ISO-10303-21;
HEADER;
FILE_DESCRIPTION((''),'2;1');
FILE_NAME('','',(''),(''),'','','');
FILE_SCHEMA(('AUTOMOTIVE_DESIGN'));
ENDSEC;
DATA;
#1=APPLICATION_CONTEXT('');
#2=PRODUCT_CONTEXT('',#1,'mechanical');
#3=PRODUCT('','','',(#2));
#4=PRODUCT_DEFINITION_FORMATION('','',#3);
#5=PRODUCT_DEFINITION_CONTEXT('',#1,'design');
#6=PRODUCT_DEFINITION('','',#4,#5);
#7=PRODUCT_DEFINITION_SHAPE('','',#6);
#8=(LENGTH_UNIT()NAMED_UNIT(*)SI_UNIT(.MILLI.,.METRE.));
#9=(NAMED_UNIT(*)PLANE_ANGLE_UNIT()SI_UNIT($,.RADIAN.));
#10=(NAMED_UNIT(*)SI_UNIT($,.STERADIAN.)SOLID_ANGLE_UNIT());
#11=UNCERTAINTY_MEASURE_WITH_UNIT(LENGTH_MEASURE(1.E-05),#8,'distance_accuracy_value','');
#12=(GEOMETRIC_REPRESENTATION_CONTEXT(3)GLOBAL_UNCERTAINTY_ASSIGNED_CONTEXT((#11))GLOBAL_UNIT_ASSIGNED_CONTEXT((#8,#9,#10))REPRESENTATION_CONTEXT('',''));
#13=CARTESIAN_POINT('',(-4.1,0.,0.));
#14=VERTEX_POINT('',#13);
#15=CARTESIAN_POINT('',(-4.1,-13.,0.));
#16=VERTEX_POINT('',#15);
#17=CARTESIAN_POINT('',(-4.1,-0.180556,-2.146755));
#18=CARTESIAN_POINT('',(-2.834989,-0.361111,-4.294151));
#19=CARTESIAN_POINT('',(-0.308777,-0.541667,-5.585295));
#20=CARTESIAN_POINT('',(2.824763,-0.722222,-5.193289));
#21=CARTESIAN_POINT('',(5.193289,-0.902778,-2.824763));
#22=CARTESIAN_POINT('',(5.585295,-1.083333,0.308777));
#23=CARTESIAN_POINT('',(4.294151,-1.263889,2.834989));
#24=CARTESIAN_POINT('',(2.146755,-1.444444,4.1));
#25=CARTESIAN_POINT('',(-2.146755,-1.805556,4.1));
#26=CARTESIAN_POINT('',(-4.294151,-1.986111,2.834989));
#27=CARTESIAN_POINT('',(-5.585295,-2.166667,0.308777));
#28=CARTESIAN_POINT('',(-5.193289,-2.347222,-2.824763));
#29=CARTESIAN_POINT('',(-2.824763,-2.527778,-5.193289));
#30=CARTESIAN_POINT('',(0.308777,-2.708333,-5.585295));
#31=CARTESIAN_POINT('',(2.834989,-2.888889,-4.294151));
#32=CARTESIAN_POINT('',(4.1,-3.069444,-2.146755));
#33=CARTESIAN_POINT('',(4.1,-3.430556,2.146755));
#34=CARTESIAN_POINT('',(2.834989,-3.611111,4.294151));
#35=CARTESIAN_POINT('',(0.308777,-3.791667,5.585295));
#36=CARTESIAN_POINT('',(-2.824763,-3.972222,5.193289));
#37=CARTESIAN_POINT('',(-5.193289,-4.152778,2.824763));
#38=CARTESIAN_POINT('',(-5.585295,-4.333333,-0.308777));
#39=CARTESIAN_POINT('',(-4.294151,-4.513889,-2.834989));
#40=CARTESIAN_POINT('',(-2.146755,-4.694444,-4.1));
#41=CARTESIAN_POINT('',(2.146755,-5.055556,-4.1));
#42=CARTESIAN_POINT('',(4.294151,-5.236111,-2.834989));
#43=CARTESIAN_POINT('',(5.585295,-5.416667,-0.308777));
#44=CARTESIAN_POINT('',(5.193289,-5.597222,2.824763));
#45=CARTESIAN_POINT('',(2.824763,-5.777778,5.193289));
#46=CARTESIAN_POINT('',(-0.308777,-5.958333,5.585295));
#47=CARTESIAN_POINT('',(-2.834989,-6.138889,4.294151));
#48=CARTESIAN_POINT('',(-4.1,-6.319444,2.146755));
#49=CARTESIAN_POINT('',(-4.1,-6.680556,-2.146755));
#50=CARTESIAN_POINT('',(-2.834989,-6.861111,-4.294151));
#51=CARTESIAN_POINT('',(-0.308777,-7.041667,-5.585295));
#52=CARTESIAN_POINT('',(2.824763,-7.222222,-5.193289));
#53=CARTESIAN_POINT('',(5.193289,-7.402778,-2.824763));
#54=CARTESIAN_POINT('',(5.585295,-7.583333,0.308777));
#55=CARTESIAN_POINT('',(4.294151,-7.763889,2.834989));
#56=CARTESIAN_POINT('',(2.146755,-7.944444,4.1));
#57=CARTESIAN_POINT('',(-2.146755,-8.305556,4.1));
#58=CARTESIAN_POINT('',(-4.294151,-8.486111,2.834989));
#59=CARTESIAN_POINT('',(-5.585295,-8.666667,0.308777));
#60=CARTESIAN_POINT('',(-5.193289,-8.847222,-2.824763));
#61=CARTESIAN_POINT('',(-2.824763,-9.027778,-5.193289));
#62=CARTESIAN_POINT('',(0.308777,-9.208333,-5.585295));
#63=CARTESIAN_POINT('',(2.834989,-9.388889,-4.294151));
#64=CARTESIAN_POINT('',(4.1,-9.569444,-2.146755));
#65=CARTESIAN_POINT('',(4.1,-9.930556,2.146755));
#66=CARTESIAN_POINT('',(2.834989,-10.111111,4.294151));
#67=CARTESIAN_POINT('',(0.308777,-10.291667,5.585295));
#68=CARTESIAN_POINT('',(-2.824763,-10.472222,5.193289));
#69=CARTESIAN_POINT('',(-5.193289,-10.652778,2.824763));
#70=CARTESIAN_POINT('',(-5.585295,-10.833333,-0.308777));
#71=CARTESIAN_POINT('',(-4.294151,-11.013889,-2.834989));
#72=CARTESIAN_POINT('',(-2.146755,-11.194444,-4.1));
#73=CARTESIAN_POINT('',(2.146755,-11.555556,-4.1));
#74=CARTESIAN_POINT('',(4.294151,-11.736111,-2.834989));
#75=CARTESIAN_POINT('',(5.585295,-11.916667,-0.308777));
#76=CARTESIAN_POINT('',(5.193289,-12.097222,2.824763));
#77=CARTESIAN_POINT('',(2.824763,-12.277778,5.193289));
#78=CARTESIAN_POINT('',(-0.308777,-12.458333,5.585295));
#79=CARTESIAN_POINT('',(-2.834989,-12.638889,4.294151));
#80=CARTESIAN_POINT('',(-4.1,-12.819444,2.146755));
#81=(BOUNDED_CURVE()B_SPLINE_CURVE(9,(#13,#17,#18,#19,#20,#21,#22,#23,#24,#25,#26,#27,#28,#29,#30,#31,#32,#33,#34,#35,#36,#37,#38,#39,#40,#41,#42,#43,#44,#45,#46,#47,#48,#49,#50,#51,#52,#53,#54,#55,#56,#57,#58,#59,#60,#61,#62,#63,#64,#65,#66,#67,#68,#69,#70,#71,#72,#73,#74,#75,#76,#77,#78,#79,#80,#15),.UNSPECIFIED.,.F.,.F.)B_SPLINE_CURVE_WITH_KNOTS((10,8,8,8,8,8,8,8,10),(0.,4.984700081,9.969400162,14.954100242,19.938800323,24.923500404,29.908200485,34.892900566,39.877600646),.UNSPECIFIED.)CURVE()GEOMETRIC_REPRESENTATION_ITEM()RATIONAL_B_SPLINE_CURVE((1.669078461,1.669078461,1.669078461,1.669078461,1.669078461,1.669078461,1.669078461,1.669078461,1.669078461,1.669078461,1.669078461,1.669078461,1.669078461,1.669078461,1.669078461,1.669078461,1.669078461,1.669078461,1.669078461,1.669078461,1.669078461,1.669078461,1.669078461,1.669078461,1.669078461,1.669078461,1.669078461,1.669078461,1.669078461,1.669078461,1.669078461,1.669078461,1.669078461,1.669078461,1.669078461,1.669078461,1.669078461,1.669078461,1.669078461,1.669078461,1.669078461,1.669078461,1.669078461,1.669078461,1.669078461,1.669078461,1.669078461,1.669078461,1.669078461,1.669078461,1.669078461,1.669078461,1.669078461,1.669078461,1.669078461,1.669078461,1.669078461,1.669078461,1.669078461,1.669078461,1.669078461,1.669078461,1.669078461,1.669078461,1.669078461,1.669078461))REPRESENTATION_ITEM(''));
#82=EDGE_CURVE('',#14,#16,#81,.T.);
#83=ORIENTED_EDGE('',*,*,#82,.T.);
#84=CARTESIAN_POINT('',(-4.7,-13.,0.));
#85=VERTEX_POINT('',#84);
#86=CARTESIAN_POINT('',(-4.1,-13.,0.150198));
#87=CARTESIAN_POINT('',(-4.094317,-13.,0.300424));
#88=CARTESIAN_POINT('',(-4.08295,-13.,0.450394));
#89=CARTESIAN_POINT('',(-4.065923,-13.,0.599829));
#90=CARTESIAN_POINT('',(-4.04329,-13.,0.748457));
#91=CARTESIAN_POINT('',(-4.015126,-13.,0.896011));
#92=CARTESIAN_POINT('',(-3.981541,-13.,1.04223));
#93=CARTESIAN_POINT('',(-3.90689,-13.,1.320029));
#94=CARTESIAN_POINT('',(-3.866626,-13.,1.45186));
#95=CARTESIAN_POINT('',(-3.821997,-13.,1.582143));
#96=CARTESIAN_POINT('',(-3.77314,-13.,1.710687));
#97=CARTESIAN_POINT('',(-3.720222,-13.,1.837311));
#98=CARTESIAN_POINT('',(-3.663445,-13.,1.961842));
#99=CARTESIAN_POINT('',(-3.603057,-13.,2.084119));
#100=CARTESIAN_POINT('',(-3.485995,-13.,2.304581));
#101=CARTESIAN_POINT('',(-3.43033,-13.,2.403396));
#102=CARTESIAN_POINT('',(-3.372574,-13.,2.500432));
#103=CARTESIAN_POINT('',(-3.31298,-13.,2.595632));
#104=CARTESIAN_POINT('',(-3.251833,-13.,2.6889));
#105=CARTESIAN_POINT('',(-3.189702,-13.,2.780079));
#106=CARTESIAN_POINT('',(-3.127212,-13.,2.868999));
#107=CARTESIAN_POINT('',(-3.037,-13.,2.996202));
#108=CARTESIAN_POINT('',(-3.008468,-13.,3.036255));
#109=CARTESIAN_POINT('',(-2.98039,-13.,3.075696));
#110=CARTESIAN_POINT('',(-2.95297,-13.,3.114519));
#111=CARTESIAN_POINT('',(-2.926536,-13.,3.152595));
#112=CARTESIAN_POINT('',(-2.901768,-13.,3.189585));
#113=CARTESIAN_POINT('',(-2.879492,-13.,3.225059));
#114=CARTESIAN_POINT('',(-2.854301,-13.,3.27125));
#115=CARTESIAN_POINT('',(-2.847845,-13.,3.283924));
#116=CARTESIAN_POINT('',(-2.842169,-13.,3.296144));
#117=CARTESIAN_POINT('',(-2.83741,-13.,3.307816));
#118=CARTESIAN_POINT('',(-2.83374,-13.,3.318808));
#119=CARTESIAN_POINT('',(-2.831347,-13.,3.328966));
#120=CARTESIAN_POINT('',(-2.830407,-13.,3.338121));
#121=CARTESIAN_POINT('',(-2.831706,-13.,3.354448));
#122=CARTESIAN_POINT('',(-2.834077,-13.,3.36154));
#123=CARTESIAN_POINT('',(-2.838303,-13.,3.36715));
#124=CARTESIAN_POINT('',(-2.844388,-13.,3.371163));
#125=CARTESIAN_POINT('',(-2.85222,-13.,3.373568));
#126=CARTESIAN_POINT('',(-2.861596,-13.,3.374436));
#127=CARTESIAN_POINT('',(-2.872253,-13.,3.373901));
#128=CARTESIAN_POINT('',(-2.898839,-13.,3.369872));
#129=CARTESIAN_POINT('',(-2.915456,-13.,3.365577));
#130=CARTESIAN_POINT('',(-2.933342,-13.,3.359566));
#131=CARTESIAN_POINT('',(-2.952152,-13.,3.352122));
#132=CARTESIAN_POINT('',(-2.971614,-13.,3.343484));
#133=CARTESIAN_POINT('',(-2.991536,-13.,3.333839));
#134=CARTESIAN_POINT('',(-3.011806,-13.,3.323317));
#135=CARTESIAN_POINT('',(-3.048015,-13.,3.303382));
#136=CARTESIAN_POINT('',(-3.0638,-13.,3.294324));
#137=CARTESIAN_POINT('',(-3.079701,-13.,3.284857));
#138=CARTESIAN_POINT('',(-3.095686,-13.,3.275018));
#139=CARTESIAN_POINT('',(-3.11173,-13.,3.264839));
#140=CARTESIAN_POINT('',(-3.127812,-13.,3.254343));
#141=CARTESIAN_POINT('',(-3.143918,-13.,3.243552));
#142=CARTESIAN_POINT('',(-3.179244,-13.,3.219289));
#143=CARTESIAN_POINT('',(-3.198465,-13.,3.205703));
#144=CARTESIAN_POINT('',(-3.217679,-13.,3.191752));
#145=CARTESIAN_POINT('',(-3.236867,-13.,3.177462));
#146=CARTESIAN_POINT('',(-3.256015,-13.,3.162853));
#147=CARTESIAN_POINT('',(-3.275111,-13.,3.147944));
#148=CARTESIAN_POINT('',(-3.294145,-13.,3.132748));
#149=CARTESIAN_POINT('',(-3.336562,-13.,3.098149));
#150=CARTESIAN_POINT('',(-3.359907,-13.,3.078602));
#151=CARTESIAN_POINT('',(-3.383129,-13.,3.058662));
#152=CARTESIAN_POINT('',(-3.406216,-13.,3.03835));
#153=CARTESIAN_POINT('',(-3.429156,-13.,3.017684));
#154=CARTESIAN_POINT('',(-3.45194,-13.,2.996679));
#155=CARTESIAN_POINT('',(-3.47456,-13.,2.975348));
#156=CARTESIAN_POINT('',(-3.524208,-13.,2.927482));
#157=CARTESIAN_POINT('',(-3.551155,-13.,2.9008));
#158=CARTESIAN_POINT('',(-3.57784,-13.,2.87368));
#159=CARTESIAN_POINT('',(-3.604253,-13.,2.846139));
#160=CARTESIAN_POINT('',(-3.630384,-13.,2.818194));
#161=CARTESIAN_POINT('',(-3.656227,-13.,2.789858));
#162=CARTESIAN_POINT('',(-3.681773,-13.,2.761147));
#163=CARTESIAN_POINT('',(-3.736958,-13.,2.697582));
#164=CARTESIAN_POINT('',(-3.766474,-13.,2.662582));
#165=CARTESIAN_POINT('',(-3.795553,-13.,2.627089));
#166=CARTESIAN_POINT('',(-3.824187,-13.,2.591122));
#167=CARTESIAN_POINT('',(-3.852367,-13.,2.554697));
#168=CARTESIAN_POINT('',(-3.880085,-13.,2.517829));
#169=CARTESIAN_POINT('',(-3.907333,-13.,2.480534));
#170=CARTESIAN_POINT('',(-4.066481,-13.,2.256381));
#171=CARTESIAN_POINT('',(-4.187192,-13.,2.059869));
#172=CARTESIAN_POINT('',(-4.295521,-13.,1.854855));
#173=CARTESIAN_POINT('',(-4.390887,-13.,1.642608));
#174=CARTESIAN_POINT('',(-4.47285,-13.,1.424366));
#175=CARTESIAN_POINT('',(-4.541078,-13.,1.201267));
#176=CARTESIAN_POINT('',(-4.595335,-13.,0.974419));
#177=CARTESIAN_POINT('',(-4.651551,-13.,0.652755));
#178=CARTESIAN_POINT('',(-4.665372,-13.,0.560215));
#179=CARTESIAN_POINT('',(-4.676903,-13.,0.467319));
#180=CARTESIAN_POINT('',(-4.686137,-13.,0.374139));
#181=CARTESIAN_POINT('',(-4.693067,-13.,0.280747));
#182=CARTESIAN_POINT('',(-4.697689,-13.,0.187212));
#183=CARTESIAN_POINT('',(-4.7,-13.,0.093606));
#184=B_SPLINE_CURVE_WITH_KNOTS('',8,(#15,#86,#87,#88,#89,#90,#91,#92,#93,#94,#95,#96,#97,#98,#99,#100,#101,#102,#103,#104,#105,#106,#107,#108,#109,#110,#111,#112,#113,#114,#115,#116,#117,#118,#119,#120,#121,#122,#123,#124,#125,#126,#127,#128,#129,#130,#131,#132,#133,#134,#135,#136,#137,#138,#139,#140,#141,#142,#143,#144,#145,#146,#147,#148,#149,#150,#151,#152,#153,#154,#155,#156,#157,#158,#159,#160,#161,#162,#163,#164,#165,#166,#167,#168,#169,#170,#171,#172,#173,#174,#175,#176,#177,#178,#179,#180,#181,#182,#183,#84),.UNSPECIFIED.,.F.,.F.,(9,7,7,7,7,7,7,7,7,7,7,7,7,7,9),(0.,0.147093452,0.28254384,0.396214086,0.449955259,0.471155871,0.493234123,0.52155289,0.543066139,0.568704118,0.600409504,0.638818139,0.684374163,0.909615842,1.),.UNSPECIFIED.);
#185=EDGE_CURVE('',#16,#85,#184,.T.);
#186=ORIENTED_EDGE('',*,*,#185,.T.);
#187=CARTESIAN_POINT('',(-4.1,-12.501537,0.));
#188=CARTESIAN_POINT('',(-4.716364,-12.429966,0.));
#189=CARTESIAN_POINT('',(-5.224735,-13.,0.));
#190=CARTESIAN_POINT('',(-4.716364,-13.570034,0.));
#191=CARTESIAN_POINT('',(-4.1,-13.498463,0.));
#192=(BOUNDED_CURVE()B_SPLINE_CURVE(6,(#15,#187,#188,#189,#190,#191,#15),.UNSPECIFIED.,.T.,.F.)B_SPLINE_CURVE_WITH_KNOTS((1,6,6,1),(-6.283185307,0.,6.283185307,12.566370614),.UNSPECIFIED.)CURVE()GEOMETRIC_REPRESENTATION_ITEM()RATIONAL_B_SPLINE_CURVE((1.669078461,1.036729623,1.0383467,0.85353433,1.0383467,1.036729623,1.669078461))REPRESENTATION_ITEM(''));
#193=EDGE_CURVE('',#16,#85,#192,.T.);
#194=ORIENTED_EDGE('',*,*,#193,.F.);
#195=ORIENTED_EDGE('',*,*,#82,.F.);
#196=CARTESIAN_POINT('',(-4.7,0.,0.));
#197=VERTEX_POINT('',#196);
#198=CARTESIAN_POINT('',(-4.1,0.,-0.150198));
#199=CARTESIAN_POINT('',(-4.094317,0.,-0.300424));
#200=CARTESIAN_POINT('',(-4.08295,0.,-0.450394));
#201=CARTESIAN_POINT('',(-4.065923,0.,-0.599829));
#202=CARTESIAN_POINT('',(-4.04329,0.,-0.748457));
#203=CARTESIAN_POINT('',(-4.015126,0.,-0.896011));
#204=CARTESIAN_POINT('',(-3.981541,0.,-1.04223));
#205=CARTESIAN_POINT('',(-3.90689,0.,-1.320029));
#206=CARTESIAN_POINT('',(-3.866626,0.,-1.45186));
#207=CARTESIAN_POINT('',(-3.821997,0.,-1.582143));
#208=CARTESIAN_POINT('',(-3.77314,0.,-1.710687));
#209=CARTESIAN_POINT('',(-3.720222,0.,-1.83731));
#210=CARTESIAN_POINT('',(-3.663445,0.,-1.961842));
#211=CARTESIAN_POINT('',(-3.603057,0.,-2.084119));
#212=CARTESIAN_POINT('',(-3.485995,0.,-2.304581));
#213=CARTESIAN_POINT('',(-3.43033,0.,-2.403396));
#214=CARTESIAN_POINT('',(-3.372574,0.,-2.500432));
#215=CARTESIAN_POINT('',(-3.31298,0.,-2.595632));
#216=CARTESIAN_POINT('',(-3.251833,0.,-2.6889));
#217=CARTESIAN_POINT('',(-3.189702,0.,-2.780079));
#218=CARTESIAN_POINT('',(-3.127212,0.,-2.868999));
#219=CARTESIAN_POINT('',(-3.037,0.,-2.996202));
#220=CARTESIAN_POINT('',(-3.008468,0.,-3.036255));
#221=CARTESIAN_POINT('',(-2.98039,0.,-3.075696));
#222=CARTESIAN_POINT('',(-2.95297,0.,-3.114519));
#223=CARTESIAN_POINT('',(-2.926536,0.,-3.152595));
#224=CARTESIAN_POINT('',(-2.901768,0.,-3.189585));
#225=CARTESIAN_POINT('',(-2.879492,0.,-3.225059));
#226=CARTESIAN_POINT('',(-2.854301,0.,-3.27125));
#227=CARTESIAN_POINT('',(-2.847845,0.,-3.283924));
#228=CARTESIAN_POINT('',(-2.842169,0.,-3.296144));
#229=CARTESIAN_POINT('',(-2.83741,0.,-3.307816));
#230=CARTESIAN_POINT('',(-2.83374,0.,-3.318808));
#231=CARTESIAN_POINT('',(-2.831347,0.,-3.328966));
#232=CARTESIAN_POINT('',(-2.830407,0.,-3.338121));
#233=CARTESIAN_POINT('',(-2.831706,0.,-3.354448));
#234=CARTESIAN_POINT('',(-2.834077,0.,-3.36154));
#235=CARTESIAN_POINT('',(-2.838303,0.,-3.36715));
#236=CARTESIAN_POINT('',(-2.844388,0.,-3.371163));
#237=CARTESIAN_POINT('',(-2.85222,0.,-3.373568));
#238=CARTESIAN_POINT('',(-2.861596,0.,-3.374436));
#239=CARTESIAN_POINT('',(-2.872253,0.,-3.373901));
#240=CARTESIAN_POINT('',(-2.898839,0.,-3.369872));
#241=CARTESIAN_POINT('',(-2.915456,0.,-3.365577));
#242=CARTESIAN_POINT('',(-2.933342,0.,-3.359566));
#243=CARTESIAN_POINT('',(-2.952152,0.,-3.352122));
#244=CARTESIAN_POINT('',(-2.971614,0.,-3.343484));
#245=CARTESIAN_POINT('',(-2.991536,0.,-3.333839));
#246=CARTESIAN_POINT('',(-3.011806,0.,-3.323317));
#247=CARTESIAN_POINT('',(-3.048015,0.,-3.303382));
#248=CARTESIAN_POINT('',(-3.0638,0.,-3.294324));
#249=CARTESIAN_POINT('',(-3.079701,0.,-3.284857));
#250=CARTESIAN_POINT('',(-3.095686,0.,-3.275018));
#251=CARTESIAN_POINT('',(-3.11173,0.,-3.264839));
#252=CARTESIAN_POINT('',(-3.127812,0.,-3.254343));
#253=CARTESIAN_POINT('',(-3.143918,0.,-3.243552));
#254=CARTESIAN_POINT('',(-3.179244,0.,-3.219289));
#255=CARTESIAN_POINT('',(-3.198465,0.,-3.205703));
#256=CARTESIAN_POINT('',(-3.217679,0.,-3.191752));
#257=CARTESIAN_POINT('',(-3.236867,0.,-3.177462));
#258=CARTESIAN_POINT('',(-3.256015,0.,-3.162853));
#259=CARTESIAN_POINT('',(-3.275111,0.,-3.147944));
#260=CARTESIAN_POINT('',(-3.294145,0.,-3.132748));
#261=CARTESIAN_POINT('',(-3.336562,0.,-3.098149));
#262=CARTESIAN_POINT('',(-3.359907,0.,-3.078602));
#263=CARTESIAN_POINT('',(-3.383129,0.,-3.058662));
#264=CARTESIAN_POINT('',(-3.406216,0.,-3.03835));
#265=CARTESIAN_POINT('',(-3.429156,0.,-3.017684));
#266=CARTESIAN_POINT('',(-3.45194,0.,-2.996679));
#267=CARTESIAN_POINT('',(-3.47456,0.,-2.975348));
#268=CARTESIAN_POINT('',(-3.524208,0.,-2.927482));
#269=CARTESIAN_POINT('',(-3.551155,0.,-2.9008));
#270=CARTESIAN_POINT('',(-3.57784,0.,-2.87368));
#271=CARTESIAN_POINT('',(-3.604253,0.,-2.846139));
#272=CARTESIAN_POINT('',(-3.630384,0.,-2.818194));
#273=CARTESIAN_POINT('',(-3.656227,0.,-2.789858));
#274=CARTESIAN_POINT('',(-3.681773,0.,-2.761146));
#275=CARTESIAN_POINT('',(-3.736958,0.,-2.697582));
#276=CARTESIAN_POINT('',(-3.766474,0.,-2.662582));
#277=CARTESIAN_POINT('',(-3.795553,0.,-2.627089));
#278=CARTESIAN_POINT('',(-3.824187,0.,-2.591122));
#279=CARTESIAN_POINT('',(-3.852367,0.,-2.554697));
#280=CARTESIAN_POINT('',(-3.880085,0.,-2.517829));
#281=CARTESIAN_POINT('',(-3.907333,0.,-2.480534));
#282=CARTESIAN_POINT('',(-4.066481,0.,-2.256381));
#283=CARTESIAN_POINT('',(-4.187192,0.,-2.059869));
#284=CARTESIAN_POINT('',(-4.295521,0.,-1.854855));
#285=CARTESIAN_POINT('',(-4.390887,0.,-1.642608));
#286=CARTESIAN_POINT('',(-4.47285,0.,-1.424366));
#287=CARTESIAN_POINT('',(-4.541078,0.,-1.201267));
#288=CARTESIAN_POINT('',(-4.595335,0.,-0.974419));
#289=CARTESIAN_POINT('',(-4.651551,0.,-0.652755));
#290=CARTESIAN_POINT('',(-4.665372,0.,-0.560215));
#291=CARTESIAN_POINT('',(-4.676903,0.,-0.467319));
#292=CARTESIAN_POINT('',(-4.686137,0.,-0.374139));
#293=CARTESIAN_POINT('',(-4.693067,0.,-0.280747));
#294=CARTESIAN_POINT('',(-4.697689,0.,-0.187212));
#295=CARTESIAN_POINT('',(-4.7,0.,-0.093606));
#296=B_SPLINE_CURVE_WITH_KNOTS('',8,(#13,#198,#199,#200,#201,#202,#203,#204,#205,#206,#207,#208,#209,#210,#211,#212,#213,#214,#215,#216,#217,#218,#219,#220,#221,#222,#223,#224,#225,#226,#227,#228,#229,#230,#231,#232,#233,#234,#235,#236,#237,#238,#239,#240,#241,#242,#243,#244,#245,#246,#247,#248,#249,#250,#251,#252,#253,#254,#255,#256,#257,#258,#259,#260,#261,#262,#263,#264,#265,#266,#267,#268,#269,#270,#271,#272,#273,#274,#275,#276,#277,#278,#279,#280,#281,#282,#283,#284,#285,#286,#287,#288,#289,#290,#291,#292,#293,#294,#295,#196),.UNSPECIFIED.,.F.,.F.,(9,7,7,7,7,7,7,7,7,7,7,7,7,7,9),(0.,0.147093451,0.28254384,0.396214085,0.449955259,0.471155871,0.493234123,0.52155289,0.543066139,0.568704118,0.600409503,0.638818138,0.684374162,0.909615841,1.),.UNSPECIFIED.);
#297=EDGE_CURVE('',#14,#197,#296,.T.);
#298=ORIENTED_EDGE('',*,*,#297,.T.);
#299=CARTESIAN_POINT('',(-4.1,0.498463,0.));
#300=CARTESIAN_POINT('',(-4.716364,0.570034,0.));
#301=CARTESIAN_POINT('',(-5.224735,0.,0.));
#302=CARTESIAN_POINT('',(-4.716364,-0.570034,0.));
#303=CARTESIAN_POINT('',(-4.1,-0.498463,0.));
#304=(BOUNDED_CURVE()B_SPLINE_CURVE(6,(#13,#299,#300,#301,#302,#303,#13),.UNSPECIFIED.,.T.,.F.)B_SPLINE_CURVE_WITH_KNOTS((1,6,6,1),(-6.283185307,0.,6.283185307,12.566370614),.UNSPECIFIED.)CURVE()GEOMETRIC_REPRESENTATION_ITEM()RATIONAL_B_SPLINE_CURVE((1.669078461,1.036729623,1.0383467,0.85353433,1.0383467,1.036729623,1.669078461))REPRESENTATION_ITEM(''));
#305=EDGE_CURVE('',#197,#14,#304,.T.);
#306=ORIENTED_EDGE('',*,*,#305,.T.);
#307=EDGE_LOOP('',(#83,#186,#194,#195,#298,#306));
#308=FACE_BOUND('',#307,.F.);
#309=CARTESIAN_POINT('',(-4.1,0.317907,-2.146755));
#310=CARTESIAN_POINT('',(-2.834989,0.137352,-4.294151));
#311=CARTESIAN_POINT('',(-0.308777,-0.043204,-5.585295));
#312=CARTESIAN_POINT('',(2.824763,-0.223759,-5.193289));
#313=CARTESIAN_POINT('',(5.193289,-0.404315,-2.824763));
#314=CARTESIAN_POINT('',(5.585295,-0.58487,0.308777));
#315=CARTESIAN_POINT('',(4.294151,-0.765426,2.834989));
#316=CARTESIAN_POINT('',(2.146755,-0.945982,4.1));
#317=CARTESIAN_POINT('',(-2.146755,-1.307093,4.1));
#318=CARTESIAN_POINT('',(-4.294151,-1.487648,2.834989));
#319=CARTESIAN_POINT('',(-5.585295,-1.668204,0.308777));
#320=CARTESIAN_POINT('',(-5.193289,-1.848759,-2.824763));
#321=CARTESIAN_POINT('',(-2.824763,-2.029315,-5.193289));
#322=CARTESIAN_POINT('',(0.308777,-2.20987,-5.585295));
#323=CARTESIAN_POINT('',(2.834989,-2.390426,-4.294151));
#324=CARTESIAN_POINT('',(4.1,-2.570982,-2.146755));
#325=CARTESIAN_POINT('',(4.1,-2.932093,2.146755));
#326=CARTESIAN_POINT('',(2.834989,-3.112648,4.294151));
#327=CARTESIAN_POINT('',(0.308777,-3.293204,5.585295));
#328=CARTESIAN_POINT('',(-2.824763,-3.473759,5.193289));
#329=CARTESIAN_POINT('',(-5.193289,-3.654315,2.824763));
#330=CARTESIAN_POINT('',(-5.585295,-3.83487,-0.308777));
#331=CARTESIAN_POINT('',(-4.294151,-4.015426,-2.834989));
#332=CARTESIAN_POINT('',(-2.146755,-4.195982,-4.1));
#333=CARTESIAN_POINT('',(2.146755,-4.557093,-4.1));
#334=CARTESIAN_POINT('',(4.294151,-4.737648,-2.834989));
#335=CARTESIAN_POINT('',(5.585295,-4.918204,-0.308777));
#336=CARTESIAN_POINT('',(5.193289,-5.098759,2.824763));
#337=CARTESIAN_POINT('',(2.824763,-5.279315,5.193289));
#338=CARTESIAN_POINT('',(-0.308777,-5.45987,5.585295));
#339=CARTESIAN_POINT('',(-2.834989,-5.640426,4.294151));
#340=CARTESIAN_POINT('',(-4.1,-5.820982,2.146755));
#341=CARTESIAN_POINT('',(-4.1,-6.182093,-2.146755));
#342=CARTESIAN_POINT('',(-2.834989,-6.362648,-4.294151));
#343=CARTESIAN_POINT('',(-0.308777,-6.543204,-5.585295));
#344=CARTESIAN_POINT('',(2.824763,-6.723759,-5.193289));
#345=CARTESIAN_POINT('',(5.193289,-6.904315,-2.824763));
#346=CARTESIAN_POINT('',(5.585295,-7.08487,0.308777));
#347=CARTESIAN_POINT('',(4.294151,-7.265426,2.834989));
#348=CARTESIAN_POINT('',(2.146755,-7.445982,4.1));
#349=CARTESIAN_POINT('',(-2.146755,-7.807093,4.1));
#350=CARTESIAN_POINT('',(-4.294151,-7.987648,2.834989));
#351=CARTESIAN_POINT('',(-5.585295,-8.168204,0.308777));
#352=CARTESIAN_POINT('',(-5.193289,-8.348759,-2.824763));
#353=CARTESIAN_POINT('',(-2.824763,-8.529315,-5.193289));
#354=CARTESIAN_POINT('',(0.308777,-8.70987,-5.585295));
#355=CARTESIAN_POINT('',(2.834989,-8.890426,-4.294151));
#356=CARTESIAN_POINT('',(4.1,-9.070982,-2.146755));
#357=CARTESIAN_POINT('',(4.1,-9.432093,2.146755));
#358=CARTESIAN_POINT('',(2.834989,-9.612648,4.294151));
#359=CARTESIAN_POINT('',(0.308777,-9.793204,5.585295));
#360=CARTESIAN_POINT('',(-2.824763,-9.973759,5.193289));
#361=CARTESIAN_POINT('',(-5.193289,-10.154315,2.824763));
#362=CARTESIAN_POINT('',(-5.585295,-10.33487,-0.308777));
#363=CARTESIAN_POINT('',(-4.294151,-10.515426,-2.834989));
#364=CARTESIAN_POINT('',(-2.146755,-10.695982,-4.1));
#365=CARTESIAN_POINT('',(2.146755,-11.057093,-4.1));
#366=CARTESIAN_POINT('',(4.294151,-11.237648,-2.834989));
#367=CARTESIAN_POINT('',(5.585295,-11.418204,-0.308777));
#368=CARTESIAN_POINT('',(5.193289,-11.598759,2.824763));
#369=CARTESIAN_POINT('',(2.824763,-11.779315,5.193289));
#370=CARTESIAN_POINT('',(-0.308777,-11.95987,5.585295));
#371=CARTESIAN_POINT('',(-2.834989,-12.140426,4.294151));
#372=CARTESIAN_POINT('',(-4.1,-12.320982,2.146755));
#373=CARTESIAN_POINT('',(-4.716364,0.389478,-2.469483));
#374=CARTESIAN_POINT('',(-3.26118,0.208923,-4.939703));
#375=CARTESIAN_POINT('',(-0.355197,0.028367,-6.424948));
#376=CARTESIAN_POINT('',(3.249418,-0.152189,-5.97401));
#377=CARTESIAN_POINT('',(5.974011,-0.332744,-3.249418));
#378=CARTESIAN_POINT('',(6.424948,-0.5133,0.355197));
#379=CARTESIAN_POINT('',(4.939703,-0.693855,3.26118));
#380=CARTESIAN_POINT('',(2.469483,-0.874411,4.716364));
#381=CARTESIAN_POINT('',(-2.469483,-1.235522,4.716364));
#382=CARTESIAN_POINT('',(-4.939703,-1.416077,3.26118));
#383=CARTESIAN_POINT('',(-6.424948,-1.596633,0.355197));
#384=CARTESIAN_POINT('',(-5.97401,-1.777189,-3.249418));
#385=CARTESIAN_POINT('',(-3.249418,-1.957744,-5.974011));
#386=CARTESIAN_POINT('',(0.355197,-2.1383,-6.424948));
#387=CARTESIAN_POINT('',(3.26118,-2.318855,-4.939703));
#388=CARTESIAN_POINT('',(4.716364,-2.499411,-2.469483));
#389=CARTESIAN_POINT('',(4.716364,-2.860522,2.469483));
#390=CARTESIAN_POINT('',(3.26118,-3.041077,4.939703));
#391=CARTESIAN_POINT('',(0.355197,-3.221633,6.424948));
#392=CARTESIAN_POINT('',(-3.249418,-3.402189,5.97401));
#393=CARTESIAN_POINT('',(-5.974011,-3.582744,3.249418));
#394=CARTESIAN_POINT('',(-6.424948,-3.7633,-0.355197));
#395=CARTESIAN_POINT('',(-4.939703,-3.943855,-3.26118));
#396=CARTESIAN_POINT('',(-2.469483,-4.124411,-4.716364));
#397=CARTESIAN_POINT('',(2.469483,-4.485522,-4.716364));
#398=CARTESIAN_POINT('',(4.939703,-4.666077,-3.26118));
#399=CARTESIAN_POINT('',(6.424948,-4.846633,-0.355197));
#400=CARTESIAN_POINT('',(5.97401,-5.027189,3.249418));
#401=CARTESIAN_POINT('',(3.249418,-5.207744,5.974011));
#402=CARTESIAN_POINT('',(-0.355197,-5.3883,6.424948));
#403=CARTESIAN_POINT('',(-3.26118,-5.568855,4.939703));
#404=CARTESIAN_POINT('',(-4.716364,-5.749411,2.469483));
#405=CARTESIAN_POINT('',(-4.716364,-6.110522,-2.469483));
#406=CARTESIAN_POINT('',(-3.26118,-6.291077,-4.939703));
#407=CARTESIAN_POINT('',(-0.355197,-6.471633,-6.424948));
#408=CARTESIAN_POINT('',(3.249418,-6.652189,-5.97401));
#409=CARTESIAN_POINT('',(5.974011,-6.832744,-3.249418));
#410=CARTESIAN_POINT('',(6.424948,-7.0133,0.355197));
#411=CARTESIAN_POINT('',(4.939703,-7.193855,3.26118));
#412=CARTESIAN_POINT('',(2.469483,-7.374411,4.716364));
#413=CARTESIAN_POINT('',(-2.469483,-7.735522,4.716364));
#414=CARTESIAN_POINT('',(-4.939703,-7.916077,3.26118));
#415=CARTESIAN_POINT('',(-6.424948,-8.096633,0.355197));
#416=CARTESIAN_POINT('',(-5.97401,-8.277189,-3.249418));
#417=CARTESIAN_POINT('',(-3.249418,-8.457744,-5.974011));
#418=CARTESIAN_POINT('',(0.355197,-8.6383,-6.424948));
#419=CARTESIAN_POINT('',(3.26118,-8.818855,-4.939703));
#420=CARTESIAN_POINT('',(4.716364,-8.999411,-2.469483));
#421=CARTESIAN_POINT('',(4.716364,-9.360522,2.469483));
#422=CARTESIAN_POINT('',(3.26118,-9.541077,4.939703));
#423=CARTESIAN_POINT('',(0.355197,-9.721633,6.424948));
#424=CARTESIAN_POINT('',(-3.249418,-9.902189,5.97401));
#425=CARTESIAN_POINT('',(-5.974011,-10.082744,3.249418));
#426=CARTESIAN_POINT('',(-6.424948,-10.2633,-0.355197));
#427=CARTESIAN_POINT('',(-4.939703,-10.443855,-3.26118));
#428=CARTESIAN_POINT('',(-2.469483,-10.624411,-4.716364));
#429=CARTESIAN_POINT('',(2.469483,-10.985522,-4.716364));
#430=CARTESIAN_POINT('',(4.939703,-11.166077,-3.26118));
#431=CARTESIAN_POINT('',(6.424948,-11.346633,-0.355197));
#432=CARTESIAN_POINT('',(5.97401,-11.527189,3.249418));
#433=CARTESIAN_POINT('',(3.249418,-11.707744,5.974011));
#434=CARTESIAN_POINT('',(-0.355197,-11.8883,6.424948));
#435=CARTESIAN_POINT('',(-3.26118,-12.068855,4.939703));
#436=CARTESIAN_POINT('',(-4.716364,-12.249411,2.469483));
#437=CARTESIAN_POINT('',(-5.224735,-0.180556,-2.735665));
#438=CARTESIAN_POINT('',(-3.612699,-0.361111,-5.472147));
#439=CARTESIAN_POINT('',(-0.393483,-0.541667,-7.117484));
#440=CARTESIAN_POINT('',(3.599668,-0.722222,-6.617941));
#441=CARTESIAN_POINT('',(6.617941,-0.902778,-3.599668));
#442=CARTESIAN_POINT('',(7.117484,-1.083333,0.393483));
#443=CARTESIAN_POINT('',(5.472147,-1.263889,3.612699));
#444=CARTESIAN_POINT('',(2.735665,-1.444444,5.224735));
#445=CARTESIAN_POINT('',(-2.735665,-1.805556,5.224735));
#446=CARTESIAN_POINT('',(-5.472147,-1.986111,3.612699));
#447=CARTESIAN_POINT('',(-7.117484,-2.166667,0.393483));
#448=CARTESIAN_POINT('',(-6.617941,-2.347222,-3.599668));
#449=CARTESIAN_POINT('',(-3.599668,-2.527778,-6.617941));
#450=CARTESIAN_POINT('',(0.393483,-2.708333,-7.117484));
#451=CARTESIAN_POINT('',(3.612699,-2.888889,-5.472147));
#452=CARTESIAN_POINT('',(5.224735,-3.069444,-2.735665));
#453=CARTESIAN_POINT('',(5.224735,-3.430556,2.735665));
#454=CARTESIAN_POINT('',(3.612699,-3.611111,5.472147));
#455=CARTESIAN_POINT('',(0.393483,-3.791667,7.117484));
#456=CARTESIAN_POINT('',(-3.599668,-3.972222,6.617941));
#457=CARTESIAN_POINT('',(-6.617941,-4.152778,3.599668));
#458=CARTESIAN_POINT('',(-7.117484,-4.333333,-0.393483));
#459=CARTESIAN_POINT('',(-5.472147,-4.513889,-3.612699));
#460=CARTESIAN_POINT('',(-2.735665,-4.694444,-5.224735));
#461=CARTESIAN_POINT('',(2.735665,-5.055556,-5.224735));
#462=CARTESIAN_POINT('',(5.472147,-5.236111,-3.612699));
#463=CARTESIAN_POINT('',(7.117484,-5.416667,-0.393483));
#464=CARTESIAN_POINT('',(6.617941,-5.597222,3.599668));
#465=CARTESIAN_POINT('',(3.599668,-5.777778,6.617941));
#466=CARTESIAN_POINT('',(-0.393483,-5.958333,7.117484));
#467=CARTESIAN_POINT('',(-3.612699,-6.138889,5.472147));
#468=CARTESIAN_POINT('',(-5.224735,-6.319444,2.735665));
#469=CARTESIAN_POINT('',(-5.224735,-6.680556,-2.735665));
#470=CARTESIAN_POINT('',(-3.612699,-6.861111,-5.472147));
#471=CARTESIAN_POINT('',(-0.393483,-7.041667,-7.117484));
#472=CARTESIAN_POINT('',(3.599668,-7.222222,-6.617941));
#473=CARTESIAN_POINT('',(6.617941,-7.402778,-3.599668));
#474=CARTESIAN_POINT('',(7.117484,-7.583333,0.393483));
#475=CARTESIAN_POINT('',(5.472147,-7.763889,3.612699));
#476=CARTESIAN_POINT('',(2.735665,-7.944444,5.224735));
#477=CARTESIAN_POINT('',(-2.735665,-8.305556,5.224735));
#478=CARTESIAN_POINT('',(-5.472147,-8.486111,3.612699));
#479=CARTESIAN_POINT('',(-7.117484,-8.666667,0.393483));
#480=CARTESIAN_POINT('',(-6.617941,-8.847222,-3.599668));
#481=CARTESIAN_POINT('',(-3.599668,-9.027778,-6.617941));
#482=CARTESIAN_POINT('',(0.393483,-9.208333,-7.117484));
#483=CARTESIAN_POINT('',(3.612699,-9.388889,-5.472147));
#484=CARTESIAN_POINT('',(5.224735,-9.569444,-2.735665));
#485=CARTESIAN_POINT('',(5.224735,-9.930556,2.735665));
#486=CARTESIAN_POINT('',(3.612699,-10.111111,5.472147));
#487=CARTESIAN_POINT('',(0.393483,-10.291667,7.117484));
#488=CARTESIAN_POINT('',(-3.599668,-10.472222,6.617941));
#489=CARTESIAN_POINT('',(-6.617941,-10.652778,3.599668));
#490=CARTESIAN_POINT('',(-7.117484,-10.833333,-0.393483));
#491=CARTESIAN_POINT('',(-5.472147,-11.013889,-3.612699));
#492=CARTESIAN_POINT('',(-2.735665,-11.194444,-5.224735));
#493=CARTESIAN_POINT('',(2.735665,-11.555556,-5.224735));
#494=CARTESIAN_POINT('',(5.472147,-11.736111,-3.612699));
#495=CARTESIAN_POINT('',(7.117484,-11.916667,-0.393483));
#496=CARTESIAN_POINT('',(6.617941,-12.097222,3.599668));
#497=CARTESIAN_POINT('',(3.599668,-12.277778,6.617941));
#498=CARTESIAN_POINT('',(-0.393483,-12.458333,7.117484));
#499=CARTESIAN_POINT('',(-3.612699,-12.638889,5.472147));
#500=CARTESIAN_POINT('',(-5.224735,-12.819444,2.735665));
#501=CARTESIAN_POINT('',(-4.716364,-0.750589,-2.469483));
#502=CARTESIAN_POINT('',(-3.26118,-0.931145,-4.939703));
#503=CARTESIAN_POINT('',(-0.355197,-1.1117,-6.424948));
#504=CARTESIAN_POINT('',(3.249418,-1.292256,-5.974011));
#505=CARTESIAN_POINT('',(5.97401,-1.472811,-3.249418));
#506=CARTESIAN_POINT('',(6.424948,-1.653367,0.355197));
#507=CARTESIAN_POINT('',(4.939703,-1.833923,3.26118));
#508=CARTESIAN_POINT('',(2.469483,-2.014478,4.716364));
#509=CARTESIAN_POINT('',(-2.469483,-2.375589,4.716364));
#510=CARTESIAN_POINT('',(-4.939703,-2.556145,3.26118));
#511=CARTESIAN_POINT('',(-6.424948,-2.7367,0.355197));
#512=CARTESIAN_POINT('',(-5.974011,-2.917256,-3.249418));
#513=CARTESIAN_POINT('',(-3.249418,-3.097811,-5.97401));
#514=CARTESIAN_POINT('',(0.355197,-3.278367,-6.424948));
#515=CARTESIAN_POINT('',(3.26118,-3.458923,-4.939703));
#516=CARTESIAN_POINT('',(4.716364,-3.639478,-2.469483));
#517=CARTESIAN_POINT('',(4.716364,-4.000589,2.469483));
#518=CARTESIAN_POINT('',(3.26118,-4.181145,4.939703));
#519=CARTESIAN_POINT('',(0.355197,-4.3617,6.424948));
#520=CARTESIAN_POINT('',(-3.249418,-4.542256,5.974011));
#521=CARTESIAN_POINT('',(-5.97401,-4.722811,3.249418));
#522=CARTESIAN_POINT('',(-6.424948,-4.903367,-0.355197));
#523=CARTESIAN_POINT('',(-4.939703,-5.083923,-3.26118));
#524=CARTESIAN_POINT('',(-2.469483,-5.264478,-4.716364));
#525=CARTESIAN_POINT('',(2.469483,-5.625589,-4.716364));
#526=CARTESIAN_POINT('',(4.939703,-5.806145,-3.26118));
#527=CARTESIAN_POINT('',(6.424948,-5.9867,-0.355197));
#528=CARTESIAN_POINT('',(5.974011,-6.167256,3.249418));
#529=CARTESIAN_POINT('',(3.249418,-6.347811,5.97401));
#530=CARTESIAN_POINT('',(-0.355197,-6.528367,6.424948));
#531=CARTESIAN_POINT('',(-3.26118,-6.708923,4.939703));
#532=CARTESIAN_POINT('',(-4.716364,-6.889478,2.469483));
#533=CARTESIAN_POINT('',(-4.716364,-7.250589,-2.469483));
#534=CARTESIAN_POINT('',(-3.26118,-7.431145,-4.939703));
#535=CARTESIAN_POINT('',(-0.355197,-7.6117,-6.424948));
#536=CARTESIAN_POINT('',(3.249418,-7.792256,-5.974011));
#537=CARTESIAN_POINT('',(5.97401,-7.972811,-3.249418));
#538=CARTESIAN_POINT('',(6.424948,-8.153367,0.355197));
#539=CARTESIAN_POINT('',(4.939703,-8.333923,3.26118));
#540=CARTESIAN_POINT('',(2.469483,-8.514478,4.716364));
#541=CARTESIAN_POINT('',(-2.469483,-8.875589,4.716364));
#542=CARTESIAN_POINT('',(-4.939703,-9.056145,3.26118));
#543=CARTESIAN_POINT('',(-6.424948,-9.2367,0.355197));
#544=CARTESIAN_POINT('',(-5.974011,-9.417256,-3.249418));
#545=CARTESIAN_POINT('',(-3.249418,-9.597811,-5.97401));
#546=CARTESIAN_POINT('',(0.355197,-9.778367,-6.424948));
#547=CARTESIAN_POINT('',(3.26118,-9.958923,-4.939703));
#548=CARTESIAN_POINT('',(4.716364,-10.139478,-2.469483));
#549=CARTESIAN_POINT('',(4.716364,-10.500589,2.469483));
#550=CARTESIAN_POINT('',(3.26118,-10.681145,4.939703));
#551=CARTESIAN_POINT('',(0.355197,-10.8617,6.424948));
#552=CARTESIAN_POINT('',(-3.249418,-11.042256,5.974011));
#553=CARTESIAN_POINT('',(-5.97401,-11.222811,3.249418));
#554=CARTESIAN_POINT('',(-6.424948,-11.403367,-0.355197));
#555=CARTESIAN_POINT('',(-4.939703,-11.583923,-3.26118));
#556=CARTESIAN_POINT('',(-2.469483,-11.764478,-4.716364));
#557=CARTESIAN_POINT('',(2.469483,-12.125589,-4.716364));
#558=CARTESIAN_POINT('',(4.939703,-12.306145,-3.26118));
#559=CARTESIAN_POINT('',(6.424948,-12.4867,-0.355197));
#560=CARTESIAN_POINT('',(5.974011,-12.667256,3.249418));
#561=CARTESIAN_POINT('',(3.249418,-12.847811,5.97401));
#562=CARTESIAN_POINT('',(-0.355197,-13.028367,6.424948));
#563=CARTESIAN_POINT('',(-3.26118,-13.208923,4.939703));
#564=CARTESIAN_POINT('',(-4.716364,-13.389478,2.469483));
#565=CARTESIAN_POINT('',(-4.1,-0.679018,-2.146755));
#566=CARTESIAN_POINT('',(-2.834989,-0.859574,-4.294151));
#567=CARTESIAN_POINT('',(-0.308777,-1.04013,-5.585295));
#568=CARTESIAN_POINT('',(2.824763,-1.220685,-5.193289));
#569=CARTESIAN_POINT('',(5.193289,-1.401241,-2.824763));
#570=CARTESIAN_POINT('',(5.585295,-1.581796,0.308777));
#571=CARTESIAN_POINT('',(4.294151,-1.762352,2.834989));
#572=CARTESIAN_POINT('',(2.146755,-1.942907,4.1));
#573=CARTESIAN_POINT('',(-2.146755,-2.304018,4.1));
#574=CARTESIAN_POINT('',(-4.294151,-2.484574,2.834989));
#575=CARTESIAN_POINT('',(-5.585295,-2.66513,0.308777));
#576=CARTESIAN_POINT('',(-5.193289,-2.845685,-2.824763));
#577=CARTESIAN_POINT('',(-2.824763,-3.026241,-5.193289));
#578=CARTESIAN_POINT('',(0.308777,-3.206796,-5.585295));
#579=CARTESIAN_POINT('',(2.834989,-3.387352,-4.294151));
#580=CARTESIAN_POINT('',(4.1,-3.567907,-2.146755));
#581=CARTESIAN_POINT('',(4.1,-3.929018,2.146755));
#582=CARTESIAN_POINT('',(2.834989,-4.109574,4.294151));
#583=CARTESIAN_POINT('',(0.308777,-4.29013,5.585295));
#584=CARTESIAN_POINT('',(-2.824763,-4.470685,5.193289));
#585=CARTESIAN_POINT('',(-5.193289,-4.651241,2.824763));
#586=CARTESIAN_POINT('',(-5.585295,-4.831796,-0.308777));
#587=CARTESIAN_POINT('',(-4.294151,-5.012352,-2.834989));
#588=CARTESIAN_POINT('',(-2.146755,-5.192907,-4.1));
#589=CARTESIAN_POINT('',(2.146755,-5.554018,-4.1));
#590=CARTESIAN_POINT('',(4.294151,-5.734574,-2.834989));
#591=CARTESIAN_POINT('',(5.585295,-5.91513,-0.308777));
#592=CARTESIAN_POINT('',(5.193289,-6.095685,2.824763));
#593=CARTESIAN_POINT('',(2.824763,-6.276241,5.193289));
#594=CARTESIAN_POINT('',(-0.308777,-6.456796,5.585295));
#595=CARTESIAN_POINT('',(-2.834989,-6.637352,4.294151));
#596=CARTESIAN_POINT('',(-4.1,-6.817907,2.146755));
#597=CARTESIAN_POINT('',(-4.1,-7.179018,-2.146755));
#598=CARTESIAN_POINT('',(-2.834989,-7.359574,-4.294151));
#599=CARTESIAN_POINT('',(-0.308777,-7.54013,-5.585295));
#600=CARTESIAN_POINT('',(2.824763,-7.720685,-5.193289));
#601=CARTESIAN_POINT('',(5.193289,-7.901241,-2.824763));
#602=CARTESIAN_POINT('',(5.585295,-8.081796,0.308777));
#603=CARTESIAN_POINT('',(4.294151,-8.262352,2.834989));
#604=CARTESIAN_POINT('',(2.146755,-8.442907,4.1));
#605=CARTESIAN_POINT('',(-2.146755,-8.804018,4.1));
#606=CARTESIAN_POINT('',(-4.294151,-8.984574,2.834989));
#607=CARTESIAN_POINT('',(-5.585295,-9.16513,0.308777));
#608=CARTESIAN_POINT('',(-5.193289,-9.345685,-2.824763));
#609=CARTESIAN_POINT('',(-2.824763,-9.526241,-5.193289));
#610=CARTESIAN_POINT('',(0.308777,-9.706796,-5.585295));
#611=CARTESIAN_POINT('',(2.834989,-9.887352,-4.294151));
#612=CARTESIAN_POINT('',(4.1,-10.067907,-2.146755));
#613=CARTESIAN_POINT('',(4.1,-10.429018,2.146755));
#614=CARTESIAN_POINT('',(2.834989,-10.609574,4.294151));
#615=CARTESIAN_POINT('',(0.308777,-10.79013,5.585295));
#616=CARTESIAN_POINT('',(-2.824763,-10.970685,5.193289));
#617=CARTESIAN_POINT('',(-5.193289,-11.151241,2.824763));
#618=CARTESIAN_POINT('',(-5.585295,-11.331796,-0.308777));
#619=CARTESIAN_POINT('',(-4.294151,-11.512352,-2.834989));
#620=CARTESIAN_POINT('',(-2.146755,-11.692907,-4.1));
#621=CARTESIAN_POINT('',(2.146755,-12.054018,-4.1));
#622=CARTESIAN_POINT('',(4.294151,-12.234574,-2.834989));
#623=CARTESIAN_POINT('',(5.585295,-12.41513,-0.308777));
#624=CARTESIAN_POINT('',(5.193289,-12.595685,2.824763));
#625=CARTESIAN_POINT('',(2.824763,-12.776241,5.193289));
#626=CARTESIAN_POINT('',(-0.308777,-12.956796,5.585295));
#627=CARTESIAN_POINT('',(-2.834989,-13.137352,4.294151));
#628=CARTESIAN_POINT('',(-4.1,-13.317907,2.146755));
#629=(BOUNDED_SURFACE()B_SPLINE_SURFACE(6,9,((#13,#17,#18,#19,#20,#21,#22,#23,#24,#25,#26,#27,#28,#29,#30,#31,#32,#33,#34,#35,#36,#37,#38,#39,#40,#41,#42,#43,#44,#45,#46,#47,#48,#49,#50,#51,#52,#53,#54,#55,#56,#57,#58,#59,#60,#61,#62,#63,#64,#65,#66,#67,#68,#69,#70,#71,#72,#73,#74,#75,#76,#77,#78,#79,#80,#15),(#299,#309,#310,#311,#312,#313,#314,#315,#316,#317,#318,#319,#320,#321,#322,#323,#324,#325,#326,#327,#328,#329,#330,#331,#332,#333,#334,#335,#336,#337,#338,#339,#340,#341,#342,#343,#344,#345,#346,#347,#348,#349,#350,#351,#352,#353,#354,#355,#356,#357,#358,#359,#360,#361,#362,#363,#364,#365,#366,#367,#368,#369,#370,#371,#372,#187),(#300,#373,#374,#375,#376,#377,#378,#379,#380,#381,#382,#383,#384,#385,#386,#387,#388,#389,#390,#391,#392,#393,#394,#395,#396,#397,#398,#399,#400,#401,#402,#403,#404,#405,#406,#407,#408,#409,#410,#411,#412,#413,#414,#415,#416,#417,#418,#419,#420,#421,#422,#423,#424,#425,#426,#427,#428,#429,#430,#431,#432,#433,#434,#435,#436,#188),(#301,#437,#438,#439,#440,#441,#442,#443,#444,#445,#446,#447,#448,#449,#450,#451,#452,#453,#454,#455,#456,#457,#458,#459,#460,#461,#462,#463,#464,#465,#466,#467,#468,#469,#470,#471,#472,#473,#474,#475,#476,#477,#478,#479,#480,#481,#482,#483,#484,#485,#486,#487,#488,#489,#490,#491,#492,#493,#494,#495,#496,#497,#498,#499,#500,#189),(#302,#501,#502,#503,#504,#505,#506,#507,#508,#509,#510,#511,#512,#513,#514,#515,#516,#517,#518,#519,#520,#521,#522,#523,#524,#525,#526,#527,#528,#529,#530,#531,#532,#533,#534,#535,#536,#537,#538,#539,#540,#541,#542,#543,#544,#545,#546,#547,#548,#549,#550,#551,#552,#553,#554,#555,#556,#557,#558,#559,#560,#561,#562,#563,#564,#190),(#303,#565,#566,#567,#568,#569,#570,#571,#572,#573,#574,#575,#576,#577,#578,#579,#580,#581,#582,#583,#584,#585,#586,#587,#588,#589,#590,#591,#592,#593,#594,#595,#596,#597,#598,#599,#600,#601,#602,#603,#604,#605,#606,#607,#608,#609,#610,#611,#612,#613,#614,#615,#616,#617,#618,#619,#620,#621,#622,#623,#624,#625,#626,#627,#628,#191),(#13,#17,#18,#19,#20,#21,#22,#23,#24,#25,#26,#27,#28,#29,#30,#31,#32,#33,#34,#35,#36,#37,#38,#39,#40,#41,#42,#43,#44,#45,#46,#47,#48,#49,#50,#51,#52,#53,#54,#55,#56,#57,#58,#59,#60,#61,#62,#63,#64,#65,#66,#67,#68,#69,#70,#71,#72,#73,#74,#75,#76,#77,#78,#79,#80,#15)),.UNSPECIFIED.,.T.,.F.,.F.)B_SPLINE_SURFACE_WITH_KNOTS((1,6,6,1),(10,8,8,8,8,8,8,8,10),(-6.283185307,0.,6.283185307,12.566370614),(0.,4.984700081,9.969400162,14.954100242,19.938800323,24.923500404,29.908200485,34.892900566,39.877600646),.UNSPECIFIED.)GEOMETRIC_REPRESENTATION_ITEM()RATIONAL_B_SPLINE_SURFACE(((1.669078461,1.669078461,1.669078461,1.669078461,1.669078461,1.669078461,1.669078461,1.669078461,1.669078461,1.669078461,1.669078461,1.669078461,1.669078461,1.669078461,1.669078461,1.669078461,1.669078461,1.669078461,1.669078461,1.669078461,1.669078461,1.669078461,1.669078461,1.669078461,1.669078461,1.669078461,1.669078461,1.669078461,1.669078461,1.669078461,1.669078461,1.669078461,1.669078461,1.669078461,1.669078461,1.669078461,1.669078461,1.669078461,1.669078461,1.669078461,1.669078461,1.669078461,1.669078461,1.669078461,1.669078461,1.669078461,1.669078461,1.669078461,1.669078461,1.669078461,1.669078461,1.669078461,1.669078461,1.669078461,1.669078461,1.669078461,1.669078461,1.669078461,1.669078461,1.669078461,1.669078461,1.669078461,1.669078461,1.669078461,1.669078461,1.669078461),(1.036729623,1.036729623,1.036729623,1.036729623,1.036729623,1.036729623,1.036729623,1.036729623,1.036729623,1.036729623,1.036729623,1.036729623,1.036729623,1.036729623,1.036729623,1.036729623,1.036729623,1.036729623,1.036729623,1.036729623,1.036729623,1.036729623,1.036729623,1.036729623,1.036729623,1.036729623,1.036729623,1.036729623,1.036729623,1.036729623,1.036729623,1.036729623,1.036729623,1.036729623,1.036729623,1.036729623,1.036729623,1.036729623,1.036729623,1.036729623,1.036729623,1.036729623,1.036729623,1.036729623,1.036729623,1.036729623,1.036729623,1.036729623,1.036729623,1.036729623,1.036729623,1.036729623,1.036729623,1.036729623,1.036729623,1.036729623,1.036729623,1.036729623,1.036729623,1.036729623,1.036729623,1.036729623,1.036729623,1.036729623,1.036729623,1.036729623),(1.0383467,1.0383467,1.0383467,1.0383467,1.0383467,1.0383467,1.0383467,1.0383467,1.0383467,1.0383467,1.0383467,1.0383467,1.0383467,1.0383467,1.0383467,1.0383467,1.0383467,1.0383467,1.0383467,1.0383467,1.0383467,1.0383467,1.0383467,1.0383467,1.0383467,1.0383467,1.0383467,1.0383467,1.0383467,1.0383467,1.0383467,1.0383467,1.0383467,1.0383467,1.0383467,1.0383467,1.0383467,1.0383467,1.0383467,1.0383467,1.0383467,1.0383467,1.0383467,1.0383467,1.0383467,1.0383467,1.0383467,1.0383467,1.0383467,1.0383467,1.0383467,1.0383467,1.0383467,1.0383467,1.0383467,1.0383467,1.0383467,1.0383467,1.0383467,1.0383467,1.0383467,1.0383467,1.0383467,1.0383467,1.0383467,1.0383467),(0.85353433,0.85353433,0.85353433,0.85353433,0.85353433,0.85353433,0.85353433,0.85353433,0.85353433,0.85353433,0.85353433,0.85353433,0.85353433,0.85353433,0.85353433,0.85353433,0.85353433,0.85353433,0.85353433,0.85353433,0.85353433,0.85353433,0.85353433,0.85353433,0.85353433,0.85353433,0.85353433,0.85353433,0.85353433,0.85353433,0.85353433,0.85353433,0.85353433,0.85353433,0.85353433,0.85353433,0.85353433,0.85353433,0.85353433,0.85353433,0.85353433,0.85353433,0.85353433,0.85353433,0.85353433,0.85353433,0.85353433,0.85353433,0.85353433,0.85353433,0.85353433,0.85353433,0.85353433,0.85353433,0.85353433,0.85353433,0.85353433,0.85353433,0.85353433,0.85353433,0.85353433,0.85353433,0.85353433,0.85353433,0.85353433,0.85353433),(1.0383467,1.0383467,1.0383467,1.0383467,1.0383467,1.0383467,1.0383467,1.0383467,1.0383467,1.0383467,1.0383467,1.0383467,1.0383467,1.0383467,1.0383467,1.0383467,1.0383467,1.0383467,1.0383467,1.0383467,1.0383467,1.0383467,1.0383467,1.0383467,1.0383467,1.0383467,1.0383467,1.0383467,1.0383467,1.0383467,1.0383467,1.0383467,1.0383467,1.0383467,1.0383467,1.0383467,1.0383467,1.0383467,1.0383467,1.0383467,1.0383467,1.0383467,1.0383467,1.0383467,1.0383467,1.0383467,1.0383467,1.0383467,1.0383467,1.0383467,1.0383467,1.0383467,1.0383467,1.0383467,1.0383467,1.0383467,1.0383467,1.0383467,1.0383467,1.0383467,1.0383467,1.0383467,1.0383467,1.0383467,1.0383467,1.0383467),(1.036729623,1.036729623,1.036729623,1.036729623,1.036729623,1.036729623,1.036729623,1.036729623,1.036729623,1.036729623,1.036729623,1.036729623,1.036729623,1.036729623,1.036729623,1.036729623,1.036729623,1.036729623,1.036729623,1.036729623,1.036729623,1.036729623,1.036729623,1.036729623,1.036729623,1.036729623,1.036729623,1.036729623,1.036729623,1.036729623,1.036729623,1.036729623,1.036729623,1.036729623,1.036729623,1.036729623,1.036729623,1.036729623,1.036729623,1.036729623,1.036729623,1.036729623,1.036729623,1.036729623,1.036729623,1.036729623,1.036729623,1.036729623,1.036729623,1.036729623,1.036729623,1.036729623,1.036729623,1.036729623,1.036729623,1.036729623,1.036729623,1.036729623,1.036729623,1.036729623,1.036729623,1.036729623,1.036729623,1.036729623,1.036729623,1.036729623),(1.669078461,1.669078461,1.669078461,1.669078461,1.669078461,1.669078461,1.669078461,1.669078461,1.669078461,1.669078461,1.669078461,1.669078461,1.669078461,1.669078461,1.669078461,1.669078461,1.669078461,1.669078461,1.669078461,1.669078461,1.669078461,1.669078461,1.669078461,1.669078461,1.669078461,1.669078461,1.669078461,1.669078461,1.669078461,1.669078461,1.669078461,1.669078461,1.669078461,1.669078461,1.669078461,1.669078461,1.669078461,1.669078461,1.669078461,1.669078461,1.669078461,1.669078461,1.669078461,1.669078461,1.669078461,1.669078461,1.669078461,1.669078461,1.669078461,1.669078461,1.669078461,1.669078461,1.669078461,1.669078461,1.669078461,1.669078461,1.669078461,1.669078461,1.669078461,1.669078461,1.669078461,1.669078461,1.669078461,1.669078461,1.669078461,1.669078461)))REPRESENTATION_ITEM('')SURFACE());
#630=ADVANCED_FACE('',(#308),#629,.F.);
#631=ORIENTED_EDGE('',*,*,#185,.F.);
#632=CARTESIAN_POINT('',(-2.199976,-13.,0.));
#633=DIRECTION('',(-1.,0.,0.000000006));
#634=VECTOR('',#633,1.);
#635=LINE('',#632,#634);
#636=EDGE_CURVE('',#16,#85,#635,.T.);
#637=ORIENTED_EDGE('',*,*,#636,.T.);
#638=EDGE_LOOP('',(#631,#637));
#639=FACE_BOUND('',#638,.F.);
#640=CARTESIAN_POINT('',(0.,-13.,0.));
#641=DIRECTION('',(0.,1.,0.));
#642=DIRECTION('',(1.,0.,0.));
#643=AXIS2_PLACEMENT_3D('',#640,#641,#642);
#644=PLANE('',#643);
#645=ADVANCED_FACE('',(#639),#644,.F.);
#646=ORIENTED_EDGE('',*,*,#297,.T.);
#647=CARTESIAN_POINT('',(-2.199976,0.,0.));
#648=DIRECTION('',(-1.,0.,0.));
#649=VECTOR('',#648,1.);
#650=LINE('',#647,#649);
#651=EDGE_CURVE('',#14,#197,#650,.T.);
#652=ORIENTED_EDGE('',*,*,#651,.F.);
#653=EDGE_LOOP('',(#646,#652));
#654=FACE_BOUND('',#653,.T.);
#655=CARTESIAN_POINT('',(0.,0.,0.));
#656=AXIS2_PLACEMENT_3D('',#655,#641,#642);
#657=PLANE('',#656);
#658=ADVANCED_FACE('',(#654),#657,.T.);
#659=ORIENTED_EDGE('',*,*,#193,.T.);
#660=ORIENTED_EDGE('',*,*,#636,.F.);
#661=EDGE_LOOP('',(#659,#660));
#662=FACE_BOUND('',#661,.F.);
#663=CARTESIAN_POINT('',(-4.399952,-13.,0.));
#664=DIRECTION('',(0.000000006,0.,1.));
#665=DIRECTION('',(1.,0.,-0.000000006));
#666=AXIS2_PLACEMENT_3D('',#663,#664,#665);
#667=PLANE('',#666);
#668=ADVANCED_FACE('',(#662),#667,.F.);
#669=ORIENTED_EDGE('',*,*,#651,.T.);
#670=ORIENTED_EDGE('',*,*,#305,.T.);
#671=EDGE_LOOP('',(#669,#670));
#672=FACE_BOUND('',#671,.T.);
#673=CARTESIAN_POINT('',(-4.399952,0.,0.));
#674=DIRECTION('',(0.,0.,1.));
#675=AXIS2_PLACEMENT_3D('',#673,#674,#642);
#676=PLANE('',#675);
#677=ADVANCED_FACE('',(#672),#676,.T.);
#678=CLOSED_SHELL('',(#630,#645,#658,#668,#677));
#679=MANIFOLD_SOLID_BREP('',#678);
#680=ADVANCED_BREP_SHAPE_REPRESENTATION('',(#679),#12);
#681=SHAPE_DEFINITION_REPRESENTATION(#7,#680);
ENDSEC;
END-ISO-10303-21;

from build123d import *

# Parameters (mm, degrees)
SWEEP2_PITCH       = 2.166666667
SWEEP2_HEIGHT      = 13
SWEEP2_RADIUS      = 4.4
SWEEP2_START_ANGLE = -90
SKETCH5_R          = 0.3


with BuildPart() as part:
    # Sweep2: sweep along a helix
    with BuildLine() as sweep2_path:
        add(Helix(SWEEP2_PITCH, SWEEP2_HEIGHT, SWEEP2_RADIUS, center=(0, 0, 0), direction=(0, -1, 0), mode=Mode.PRIVATE).rotate(Axis((0, 0, 0), (0, -1, 0)), SWEEP2_START_ANGLE))
    # Sketch5 → Sweep2 (sweep)
    with BuildSketch(Plane.XY):
        with Locations((-4.4, 0)):
            Circle(SKETCH5_R)
    sweep(path=sweep2_path.line, is_frenet=True)

    # SurfaceCut5
    split(bisect_by=Plane(origin=(0, 0, 0), x_dir=(1, 0, 0), z_dir=(0, 1, 0)), keep=Keep.BOTTOM)

    # SurfaceCut6
    split(bisect_by=Plane(origin=(0, -13, 0), x_dir=(1, 0, 0), z_dir=(0, 1, 0)), keep=Keep.TOP)


solid = part.part
